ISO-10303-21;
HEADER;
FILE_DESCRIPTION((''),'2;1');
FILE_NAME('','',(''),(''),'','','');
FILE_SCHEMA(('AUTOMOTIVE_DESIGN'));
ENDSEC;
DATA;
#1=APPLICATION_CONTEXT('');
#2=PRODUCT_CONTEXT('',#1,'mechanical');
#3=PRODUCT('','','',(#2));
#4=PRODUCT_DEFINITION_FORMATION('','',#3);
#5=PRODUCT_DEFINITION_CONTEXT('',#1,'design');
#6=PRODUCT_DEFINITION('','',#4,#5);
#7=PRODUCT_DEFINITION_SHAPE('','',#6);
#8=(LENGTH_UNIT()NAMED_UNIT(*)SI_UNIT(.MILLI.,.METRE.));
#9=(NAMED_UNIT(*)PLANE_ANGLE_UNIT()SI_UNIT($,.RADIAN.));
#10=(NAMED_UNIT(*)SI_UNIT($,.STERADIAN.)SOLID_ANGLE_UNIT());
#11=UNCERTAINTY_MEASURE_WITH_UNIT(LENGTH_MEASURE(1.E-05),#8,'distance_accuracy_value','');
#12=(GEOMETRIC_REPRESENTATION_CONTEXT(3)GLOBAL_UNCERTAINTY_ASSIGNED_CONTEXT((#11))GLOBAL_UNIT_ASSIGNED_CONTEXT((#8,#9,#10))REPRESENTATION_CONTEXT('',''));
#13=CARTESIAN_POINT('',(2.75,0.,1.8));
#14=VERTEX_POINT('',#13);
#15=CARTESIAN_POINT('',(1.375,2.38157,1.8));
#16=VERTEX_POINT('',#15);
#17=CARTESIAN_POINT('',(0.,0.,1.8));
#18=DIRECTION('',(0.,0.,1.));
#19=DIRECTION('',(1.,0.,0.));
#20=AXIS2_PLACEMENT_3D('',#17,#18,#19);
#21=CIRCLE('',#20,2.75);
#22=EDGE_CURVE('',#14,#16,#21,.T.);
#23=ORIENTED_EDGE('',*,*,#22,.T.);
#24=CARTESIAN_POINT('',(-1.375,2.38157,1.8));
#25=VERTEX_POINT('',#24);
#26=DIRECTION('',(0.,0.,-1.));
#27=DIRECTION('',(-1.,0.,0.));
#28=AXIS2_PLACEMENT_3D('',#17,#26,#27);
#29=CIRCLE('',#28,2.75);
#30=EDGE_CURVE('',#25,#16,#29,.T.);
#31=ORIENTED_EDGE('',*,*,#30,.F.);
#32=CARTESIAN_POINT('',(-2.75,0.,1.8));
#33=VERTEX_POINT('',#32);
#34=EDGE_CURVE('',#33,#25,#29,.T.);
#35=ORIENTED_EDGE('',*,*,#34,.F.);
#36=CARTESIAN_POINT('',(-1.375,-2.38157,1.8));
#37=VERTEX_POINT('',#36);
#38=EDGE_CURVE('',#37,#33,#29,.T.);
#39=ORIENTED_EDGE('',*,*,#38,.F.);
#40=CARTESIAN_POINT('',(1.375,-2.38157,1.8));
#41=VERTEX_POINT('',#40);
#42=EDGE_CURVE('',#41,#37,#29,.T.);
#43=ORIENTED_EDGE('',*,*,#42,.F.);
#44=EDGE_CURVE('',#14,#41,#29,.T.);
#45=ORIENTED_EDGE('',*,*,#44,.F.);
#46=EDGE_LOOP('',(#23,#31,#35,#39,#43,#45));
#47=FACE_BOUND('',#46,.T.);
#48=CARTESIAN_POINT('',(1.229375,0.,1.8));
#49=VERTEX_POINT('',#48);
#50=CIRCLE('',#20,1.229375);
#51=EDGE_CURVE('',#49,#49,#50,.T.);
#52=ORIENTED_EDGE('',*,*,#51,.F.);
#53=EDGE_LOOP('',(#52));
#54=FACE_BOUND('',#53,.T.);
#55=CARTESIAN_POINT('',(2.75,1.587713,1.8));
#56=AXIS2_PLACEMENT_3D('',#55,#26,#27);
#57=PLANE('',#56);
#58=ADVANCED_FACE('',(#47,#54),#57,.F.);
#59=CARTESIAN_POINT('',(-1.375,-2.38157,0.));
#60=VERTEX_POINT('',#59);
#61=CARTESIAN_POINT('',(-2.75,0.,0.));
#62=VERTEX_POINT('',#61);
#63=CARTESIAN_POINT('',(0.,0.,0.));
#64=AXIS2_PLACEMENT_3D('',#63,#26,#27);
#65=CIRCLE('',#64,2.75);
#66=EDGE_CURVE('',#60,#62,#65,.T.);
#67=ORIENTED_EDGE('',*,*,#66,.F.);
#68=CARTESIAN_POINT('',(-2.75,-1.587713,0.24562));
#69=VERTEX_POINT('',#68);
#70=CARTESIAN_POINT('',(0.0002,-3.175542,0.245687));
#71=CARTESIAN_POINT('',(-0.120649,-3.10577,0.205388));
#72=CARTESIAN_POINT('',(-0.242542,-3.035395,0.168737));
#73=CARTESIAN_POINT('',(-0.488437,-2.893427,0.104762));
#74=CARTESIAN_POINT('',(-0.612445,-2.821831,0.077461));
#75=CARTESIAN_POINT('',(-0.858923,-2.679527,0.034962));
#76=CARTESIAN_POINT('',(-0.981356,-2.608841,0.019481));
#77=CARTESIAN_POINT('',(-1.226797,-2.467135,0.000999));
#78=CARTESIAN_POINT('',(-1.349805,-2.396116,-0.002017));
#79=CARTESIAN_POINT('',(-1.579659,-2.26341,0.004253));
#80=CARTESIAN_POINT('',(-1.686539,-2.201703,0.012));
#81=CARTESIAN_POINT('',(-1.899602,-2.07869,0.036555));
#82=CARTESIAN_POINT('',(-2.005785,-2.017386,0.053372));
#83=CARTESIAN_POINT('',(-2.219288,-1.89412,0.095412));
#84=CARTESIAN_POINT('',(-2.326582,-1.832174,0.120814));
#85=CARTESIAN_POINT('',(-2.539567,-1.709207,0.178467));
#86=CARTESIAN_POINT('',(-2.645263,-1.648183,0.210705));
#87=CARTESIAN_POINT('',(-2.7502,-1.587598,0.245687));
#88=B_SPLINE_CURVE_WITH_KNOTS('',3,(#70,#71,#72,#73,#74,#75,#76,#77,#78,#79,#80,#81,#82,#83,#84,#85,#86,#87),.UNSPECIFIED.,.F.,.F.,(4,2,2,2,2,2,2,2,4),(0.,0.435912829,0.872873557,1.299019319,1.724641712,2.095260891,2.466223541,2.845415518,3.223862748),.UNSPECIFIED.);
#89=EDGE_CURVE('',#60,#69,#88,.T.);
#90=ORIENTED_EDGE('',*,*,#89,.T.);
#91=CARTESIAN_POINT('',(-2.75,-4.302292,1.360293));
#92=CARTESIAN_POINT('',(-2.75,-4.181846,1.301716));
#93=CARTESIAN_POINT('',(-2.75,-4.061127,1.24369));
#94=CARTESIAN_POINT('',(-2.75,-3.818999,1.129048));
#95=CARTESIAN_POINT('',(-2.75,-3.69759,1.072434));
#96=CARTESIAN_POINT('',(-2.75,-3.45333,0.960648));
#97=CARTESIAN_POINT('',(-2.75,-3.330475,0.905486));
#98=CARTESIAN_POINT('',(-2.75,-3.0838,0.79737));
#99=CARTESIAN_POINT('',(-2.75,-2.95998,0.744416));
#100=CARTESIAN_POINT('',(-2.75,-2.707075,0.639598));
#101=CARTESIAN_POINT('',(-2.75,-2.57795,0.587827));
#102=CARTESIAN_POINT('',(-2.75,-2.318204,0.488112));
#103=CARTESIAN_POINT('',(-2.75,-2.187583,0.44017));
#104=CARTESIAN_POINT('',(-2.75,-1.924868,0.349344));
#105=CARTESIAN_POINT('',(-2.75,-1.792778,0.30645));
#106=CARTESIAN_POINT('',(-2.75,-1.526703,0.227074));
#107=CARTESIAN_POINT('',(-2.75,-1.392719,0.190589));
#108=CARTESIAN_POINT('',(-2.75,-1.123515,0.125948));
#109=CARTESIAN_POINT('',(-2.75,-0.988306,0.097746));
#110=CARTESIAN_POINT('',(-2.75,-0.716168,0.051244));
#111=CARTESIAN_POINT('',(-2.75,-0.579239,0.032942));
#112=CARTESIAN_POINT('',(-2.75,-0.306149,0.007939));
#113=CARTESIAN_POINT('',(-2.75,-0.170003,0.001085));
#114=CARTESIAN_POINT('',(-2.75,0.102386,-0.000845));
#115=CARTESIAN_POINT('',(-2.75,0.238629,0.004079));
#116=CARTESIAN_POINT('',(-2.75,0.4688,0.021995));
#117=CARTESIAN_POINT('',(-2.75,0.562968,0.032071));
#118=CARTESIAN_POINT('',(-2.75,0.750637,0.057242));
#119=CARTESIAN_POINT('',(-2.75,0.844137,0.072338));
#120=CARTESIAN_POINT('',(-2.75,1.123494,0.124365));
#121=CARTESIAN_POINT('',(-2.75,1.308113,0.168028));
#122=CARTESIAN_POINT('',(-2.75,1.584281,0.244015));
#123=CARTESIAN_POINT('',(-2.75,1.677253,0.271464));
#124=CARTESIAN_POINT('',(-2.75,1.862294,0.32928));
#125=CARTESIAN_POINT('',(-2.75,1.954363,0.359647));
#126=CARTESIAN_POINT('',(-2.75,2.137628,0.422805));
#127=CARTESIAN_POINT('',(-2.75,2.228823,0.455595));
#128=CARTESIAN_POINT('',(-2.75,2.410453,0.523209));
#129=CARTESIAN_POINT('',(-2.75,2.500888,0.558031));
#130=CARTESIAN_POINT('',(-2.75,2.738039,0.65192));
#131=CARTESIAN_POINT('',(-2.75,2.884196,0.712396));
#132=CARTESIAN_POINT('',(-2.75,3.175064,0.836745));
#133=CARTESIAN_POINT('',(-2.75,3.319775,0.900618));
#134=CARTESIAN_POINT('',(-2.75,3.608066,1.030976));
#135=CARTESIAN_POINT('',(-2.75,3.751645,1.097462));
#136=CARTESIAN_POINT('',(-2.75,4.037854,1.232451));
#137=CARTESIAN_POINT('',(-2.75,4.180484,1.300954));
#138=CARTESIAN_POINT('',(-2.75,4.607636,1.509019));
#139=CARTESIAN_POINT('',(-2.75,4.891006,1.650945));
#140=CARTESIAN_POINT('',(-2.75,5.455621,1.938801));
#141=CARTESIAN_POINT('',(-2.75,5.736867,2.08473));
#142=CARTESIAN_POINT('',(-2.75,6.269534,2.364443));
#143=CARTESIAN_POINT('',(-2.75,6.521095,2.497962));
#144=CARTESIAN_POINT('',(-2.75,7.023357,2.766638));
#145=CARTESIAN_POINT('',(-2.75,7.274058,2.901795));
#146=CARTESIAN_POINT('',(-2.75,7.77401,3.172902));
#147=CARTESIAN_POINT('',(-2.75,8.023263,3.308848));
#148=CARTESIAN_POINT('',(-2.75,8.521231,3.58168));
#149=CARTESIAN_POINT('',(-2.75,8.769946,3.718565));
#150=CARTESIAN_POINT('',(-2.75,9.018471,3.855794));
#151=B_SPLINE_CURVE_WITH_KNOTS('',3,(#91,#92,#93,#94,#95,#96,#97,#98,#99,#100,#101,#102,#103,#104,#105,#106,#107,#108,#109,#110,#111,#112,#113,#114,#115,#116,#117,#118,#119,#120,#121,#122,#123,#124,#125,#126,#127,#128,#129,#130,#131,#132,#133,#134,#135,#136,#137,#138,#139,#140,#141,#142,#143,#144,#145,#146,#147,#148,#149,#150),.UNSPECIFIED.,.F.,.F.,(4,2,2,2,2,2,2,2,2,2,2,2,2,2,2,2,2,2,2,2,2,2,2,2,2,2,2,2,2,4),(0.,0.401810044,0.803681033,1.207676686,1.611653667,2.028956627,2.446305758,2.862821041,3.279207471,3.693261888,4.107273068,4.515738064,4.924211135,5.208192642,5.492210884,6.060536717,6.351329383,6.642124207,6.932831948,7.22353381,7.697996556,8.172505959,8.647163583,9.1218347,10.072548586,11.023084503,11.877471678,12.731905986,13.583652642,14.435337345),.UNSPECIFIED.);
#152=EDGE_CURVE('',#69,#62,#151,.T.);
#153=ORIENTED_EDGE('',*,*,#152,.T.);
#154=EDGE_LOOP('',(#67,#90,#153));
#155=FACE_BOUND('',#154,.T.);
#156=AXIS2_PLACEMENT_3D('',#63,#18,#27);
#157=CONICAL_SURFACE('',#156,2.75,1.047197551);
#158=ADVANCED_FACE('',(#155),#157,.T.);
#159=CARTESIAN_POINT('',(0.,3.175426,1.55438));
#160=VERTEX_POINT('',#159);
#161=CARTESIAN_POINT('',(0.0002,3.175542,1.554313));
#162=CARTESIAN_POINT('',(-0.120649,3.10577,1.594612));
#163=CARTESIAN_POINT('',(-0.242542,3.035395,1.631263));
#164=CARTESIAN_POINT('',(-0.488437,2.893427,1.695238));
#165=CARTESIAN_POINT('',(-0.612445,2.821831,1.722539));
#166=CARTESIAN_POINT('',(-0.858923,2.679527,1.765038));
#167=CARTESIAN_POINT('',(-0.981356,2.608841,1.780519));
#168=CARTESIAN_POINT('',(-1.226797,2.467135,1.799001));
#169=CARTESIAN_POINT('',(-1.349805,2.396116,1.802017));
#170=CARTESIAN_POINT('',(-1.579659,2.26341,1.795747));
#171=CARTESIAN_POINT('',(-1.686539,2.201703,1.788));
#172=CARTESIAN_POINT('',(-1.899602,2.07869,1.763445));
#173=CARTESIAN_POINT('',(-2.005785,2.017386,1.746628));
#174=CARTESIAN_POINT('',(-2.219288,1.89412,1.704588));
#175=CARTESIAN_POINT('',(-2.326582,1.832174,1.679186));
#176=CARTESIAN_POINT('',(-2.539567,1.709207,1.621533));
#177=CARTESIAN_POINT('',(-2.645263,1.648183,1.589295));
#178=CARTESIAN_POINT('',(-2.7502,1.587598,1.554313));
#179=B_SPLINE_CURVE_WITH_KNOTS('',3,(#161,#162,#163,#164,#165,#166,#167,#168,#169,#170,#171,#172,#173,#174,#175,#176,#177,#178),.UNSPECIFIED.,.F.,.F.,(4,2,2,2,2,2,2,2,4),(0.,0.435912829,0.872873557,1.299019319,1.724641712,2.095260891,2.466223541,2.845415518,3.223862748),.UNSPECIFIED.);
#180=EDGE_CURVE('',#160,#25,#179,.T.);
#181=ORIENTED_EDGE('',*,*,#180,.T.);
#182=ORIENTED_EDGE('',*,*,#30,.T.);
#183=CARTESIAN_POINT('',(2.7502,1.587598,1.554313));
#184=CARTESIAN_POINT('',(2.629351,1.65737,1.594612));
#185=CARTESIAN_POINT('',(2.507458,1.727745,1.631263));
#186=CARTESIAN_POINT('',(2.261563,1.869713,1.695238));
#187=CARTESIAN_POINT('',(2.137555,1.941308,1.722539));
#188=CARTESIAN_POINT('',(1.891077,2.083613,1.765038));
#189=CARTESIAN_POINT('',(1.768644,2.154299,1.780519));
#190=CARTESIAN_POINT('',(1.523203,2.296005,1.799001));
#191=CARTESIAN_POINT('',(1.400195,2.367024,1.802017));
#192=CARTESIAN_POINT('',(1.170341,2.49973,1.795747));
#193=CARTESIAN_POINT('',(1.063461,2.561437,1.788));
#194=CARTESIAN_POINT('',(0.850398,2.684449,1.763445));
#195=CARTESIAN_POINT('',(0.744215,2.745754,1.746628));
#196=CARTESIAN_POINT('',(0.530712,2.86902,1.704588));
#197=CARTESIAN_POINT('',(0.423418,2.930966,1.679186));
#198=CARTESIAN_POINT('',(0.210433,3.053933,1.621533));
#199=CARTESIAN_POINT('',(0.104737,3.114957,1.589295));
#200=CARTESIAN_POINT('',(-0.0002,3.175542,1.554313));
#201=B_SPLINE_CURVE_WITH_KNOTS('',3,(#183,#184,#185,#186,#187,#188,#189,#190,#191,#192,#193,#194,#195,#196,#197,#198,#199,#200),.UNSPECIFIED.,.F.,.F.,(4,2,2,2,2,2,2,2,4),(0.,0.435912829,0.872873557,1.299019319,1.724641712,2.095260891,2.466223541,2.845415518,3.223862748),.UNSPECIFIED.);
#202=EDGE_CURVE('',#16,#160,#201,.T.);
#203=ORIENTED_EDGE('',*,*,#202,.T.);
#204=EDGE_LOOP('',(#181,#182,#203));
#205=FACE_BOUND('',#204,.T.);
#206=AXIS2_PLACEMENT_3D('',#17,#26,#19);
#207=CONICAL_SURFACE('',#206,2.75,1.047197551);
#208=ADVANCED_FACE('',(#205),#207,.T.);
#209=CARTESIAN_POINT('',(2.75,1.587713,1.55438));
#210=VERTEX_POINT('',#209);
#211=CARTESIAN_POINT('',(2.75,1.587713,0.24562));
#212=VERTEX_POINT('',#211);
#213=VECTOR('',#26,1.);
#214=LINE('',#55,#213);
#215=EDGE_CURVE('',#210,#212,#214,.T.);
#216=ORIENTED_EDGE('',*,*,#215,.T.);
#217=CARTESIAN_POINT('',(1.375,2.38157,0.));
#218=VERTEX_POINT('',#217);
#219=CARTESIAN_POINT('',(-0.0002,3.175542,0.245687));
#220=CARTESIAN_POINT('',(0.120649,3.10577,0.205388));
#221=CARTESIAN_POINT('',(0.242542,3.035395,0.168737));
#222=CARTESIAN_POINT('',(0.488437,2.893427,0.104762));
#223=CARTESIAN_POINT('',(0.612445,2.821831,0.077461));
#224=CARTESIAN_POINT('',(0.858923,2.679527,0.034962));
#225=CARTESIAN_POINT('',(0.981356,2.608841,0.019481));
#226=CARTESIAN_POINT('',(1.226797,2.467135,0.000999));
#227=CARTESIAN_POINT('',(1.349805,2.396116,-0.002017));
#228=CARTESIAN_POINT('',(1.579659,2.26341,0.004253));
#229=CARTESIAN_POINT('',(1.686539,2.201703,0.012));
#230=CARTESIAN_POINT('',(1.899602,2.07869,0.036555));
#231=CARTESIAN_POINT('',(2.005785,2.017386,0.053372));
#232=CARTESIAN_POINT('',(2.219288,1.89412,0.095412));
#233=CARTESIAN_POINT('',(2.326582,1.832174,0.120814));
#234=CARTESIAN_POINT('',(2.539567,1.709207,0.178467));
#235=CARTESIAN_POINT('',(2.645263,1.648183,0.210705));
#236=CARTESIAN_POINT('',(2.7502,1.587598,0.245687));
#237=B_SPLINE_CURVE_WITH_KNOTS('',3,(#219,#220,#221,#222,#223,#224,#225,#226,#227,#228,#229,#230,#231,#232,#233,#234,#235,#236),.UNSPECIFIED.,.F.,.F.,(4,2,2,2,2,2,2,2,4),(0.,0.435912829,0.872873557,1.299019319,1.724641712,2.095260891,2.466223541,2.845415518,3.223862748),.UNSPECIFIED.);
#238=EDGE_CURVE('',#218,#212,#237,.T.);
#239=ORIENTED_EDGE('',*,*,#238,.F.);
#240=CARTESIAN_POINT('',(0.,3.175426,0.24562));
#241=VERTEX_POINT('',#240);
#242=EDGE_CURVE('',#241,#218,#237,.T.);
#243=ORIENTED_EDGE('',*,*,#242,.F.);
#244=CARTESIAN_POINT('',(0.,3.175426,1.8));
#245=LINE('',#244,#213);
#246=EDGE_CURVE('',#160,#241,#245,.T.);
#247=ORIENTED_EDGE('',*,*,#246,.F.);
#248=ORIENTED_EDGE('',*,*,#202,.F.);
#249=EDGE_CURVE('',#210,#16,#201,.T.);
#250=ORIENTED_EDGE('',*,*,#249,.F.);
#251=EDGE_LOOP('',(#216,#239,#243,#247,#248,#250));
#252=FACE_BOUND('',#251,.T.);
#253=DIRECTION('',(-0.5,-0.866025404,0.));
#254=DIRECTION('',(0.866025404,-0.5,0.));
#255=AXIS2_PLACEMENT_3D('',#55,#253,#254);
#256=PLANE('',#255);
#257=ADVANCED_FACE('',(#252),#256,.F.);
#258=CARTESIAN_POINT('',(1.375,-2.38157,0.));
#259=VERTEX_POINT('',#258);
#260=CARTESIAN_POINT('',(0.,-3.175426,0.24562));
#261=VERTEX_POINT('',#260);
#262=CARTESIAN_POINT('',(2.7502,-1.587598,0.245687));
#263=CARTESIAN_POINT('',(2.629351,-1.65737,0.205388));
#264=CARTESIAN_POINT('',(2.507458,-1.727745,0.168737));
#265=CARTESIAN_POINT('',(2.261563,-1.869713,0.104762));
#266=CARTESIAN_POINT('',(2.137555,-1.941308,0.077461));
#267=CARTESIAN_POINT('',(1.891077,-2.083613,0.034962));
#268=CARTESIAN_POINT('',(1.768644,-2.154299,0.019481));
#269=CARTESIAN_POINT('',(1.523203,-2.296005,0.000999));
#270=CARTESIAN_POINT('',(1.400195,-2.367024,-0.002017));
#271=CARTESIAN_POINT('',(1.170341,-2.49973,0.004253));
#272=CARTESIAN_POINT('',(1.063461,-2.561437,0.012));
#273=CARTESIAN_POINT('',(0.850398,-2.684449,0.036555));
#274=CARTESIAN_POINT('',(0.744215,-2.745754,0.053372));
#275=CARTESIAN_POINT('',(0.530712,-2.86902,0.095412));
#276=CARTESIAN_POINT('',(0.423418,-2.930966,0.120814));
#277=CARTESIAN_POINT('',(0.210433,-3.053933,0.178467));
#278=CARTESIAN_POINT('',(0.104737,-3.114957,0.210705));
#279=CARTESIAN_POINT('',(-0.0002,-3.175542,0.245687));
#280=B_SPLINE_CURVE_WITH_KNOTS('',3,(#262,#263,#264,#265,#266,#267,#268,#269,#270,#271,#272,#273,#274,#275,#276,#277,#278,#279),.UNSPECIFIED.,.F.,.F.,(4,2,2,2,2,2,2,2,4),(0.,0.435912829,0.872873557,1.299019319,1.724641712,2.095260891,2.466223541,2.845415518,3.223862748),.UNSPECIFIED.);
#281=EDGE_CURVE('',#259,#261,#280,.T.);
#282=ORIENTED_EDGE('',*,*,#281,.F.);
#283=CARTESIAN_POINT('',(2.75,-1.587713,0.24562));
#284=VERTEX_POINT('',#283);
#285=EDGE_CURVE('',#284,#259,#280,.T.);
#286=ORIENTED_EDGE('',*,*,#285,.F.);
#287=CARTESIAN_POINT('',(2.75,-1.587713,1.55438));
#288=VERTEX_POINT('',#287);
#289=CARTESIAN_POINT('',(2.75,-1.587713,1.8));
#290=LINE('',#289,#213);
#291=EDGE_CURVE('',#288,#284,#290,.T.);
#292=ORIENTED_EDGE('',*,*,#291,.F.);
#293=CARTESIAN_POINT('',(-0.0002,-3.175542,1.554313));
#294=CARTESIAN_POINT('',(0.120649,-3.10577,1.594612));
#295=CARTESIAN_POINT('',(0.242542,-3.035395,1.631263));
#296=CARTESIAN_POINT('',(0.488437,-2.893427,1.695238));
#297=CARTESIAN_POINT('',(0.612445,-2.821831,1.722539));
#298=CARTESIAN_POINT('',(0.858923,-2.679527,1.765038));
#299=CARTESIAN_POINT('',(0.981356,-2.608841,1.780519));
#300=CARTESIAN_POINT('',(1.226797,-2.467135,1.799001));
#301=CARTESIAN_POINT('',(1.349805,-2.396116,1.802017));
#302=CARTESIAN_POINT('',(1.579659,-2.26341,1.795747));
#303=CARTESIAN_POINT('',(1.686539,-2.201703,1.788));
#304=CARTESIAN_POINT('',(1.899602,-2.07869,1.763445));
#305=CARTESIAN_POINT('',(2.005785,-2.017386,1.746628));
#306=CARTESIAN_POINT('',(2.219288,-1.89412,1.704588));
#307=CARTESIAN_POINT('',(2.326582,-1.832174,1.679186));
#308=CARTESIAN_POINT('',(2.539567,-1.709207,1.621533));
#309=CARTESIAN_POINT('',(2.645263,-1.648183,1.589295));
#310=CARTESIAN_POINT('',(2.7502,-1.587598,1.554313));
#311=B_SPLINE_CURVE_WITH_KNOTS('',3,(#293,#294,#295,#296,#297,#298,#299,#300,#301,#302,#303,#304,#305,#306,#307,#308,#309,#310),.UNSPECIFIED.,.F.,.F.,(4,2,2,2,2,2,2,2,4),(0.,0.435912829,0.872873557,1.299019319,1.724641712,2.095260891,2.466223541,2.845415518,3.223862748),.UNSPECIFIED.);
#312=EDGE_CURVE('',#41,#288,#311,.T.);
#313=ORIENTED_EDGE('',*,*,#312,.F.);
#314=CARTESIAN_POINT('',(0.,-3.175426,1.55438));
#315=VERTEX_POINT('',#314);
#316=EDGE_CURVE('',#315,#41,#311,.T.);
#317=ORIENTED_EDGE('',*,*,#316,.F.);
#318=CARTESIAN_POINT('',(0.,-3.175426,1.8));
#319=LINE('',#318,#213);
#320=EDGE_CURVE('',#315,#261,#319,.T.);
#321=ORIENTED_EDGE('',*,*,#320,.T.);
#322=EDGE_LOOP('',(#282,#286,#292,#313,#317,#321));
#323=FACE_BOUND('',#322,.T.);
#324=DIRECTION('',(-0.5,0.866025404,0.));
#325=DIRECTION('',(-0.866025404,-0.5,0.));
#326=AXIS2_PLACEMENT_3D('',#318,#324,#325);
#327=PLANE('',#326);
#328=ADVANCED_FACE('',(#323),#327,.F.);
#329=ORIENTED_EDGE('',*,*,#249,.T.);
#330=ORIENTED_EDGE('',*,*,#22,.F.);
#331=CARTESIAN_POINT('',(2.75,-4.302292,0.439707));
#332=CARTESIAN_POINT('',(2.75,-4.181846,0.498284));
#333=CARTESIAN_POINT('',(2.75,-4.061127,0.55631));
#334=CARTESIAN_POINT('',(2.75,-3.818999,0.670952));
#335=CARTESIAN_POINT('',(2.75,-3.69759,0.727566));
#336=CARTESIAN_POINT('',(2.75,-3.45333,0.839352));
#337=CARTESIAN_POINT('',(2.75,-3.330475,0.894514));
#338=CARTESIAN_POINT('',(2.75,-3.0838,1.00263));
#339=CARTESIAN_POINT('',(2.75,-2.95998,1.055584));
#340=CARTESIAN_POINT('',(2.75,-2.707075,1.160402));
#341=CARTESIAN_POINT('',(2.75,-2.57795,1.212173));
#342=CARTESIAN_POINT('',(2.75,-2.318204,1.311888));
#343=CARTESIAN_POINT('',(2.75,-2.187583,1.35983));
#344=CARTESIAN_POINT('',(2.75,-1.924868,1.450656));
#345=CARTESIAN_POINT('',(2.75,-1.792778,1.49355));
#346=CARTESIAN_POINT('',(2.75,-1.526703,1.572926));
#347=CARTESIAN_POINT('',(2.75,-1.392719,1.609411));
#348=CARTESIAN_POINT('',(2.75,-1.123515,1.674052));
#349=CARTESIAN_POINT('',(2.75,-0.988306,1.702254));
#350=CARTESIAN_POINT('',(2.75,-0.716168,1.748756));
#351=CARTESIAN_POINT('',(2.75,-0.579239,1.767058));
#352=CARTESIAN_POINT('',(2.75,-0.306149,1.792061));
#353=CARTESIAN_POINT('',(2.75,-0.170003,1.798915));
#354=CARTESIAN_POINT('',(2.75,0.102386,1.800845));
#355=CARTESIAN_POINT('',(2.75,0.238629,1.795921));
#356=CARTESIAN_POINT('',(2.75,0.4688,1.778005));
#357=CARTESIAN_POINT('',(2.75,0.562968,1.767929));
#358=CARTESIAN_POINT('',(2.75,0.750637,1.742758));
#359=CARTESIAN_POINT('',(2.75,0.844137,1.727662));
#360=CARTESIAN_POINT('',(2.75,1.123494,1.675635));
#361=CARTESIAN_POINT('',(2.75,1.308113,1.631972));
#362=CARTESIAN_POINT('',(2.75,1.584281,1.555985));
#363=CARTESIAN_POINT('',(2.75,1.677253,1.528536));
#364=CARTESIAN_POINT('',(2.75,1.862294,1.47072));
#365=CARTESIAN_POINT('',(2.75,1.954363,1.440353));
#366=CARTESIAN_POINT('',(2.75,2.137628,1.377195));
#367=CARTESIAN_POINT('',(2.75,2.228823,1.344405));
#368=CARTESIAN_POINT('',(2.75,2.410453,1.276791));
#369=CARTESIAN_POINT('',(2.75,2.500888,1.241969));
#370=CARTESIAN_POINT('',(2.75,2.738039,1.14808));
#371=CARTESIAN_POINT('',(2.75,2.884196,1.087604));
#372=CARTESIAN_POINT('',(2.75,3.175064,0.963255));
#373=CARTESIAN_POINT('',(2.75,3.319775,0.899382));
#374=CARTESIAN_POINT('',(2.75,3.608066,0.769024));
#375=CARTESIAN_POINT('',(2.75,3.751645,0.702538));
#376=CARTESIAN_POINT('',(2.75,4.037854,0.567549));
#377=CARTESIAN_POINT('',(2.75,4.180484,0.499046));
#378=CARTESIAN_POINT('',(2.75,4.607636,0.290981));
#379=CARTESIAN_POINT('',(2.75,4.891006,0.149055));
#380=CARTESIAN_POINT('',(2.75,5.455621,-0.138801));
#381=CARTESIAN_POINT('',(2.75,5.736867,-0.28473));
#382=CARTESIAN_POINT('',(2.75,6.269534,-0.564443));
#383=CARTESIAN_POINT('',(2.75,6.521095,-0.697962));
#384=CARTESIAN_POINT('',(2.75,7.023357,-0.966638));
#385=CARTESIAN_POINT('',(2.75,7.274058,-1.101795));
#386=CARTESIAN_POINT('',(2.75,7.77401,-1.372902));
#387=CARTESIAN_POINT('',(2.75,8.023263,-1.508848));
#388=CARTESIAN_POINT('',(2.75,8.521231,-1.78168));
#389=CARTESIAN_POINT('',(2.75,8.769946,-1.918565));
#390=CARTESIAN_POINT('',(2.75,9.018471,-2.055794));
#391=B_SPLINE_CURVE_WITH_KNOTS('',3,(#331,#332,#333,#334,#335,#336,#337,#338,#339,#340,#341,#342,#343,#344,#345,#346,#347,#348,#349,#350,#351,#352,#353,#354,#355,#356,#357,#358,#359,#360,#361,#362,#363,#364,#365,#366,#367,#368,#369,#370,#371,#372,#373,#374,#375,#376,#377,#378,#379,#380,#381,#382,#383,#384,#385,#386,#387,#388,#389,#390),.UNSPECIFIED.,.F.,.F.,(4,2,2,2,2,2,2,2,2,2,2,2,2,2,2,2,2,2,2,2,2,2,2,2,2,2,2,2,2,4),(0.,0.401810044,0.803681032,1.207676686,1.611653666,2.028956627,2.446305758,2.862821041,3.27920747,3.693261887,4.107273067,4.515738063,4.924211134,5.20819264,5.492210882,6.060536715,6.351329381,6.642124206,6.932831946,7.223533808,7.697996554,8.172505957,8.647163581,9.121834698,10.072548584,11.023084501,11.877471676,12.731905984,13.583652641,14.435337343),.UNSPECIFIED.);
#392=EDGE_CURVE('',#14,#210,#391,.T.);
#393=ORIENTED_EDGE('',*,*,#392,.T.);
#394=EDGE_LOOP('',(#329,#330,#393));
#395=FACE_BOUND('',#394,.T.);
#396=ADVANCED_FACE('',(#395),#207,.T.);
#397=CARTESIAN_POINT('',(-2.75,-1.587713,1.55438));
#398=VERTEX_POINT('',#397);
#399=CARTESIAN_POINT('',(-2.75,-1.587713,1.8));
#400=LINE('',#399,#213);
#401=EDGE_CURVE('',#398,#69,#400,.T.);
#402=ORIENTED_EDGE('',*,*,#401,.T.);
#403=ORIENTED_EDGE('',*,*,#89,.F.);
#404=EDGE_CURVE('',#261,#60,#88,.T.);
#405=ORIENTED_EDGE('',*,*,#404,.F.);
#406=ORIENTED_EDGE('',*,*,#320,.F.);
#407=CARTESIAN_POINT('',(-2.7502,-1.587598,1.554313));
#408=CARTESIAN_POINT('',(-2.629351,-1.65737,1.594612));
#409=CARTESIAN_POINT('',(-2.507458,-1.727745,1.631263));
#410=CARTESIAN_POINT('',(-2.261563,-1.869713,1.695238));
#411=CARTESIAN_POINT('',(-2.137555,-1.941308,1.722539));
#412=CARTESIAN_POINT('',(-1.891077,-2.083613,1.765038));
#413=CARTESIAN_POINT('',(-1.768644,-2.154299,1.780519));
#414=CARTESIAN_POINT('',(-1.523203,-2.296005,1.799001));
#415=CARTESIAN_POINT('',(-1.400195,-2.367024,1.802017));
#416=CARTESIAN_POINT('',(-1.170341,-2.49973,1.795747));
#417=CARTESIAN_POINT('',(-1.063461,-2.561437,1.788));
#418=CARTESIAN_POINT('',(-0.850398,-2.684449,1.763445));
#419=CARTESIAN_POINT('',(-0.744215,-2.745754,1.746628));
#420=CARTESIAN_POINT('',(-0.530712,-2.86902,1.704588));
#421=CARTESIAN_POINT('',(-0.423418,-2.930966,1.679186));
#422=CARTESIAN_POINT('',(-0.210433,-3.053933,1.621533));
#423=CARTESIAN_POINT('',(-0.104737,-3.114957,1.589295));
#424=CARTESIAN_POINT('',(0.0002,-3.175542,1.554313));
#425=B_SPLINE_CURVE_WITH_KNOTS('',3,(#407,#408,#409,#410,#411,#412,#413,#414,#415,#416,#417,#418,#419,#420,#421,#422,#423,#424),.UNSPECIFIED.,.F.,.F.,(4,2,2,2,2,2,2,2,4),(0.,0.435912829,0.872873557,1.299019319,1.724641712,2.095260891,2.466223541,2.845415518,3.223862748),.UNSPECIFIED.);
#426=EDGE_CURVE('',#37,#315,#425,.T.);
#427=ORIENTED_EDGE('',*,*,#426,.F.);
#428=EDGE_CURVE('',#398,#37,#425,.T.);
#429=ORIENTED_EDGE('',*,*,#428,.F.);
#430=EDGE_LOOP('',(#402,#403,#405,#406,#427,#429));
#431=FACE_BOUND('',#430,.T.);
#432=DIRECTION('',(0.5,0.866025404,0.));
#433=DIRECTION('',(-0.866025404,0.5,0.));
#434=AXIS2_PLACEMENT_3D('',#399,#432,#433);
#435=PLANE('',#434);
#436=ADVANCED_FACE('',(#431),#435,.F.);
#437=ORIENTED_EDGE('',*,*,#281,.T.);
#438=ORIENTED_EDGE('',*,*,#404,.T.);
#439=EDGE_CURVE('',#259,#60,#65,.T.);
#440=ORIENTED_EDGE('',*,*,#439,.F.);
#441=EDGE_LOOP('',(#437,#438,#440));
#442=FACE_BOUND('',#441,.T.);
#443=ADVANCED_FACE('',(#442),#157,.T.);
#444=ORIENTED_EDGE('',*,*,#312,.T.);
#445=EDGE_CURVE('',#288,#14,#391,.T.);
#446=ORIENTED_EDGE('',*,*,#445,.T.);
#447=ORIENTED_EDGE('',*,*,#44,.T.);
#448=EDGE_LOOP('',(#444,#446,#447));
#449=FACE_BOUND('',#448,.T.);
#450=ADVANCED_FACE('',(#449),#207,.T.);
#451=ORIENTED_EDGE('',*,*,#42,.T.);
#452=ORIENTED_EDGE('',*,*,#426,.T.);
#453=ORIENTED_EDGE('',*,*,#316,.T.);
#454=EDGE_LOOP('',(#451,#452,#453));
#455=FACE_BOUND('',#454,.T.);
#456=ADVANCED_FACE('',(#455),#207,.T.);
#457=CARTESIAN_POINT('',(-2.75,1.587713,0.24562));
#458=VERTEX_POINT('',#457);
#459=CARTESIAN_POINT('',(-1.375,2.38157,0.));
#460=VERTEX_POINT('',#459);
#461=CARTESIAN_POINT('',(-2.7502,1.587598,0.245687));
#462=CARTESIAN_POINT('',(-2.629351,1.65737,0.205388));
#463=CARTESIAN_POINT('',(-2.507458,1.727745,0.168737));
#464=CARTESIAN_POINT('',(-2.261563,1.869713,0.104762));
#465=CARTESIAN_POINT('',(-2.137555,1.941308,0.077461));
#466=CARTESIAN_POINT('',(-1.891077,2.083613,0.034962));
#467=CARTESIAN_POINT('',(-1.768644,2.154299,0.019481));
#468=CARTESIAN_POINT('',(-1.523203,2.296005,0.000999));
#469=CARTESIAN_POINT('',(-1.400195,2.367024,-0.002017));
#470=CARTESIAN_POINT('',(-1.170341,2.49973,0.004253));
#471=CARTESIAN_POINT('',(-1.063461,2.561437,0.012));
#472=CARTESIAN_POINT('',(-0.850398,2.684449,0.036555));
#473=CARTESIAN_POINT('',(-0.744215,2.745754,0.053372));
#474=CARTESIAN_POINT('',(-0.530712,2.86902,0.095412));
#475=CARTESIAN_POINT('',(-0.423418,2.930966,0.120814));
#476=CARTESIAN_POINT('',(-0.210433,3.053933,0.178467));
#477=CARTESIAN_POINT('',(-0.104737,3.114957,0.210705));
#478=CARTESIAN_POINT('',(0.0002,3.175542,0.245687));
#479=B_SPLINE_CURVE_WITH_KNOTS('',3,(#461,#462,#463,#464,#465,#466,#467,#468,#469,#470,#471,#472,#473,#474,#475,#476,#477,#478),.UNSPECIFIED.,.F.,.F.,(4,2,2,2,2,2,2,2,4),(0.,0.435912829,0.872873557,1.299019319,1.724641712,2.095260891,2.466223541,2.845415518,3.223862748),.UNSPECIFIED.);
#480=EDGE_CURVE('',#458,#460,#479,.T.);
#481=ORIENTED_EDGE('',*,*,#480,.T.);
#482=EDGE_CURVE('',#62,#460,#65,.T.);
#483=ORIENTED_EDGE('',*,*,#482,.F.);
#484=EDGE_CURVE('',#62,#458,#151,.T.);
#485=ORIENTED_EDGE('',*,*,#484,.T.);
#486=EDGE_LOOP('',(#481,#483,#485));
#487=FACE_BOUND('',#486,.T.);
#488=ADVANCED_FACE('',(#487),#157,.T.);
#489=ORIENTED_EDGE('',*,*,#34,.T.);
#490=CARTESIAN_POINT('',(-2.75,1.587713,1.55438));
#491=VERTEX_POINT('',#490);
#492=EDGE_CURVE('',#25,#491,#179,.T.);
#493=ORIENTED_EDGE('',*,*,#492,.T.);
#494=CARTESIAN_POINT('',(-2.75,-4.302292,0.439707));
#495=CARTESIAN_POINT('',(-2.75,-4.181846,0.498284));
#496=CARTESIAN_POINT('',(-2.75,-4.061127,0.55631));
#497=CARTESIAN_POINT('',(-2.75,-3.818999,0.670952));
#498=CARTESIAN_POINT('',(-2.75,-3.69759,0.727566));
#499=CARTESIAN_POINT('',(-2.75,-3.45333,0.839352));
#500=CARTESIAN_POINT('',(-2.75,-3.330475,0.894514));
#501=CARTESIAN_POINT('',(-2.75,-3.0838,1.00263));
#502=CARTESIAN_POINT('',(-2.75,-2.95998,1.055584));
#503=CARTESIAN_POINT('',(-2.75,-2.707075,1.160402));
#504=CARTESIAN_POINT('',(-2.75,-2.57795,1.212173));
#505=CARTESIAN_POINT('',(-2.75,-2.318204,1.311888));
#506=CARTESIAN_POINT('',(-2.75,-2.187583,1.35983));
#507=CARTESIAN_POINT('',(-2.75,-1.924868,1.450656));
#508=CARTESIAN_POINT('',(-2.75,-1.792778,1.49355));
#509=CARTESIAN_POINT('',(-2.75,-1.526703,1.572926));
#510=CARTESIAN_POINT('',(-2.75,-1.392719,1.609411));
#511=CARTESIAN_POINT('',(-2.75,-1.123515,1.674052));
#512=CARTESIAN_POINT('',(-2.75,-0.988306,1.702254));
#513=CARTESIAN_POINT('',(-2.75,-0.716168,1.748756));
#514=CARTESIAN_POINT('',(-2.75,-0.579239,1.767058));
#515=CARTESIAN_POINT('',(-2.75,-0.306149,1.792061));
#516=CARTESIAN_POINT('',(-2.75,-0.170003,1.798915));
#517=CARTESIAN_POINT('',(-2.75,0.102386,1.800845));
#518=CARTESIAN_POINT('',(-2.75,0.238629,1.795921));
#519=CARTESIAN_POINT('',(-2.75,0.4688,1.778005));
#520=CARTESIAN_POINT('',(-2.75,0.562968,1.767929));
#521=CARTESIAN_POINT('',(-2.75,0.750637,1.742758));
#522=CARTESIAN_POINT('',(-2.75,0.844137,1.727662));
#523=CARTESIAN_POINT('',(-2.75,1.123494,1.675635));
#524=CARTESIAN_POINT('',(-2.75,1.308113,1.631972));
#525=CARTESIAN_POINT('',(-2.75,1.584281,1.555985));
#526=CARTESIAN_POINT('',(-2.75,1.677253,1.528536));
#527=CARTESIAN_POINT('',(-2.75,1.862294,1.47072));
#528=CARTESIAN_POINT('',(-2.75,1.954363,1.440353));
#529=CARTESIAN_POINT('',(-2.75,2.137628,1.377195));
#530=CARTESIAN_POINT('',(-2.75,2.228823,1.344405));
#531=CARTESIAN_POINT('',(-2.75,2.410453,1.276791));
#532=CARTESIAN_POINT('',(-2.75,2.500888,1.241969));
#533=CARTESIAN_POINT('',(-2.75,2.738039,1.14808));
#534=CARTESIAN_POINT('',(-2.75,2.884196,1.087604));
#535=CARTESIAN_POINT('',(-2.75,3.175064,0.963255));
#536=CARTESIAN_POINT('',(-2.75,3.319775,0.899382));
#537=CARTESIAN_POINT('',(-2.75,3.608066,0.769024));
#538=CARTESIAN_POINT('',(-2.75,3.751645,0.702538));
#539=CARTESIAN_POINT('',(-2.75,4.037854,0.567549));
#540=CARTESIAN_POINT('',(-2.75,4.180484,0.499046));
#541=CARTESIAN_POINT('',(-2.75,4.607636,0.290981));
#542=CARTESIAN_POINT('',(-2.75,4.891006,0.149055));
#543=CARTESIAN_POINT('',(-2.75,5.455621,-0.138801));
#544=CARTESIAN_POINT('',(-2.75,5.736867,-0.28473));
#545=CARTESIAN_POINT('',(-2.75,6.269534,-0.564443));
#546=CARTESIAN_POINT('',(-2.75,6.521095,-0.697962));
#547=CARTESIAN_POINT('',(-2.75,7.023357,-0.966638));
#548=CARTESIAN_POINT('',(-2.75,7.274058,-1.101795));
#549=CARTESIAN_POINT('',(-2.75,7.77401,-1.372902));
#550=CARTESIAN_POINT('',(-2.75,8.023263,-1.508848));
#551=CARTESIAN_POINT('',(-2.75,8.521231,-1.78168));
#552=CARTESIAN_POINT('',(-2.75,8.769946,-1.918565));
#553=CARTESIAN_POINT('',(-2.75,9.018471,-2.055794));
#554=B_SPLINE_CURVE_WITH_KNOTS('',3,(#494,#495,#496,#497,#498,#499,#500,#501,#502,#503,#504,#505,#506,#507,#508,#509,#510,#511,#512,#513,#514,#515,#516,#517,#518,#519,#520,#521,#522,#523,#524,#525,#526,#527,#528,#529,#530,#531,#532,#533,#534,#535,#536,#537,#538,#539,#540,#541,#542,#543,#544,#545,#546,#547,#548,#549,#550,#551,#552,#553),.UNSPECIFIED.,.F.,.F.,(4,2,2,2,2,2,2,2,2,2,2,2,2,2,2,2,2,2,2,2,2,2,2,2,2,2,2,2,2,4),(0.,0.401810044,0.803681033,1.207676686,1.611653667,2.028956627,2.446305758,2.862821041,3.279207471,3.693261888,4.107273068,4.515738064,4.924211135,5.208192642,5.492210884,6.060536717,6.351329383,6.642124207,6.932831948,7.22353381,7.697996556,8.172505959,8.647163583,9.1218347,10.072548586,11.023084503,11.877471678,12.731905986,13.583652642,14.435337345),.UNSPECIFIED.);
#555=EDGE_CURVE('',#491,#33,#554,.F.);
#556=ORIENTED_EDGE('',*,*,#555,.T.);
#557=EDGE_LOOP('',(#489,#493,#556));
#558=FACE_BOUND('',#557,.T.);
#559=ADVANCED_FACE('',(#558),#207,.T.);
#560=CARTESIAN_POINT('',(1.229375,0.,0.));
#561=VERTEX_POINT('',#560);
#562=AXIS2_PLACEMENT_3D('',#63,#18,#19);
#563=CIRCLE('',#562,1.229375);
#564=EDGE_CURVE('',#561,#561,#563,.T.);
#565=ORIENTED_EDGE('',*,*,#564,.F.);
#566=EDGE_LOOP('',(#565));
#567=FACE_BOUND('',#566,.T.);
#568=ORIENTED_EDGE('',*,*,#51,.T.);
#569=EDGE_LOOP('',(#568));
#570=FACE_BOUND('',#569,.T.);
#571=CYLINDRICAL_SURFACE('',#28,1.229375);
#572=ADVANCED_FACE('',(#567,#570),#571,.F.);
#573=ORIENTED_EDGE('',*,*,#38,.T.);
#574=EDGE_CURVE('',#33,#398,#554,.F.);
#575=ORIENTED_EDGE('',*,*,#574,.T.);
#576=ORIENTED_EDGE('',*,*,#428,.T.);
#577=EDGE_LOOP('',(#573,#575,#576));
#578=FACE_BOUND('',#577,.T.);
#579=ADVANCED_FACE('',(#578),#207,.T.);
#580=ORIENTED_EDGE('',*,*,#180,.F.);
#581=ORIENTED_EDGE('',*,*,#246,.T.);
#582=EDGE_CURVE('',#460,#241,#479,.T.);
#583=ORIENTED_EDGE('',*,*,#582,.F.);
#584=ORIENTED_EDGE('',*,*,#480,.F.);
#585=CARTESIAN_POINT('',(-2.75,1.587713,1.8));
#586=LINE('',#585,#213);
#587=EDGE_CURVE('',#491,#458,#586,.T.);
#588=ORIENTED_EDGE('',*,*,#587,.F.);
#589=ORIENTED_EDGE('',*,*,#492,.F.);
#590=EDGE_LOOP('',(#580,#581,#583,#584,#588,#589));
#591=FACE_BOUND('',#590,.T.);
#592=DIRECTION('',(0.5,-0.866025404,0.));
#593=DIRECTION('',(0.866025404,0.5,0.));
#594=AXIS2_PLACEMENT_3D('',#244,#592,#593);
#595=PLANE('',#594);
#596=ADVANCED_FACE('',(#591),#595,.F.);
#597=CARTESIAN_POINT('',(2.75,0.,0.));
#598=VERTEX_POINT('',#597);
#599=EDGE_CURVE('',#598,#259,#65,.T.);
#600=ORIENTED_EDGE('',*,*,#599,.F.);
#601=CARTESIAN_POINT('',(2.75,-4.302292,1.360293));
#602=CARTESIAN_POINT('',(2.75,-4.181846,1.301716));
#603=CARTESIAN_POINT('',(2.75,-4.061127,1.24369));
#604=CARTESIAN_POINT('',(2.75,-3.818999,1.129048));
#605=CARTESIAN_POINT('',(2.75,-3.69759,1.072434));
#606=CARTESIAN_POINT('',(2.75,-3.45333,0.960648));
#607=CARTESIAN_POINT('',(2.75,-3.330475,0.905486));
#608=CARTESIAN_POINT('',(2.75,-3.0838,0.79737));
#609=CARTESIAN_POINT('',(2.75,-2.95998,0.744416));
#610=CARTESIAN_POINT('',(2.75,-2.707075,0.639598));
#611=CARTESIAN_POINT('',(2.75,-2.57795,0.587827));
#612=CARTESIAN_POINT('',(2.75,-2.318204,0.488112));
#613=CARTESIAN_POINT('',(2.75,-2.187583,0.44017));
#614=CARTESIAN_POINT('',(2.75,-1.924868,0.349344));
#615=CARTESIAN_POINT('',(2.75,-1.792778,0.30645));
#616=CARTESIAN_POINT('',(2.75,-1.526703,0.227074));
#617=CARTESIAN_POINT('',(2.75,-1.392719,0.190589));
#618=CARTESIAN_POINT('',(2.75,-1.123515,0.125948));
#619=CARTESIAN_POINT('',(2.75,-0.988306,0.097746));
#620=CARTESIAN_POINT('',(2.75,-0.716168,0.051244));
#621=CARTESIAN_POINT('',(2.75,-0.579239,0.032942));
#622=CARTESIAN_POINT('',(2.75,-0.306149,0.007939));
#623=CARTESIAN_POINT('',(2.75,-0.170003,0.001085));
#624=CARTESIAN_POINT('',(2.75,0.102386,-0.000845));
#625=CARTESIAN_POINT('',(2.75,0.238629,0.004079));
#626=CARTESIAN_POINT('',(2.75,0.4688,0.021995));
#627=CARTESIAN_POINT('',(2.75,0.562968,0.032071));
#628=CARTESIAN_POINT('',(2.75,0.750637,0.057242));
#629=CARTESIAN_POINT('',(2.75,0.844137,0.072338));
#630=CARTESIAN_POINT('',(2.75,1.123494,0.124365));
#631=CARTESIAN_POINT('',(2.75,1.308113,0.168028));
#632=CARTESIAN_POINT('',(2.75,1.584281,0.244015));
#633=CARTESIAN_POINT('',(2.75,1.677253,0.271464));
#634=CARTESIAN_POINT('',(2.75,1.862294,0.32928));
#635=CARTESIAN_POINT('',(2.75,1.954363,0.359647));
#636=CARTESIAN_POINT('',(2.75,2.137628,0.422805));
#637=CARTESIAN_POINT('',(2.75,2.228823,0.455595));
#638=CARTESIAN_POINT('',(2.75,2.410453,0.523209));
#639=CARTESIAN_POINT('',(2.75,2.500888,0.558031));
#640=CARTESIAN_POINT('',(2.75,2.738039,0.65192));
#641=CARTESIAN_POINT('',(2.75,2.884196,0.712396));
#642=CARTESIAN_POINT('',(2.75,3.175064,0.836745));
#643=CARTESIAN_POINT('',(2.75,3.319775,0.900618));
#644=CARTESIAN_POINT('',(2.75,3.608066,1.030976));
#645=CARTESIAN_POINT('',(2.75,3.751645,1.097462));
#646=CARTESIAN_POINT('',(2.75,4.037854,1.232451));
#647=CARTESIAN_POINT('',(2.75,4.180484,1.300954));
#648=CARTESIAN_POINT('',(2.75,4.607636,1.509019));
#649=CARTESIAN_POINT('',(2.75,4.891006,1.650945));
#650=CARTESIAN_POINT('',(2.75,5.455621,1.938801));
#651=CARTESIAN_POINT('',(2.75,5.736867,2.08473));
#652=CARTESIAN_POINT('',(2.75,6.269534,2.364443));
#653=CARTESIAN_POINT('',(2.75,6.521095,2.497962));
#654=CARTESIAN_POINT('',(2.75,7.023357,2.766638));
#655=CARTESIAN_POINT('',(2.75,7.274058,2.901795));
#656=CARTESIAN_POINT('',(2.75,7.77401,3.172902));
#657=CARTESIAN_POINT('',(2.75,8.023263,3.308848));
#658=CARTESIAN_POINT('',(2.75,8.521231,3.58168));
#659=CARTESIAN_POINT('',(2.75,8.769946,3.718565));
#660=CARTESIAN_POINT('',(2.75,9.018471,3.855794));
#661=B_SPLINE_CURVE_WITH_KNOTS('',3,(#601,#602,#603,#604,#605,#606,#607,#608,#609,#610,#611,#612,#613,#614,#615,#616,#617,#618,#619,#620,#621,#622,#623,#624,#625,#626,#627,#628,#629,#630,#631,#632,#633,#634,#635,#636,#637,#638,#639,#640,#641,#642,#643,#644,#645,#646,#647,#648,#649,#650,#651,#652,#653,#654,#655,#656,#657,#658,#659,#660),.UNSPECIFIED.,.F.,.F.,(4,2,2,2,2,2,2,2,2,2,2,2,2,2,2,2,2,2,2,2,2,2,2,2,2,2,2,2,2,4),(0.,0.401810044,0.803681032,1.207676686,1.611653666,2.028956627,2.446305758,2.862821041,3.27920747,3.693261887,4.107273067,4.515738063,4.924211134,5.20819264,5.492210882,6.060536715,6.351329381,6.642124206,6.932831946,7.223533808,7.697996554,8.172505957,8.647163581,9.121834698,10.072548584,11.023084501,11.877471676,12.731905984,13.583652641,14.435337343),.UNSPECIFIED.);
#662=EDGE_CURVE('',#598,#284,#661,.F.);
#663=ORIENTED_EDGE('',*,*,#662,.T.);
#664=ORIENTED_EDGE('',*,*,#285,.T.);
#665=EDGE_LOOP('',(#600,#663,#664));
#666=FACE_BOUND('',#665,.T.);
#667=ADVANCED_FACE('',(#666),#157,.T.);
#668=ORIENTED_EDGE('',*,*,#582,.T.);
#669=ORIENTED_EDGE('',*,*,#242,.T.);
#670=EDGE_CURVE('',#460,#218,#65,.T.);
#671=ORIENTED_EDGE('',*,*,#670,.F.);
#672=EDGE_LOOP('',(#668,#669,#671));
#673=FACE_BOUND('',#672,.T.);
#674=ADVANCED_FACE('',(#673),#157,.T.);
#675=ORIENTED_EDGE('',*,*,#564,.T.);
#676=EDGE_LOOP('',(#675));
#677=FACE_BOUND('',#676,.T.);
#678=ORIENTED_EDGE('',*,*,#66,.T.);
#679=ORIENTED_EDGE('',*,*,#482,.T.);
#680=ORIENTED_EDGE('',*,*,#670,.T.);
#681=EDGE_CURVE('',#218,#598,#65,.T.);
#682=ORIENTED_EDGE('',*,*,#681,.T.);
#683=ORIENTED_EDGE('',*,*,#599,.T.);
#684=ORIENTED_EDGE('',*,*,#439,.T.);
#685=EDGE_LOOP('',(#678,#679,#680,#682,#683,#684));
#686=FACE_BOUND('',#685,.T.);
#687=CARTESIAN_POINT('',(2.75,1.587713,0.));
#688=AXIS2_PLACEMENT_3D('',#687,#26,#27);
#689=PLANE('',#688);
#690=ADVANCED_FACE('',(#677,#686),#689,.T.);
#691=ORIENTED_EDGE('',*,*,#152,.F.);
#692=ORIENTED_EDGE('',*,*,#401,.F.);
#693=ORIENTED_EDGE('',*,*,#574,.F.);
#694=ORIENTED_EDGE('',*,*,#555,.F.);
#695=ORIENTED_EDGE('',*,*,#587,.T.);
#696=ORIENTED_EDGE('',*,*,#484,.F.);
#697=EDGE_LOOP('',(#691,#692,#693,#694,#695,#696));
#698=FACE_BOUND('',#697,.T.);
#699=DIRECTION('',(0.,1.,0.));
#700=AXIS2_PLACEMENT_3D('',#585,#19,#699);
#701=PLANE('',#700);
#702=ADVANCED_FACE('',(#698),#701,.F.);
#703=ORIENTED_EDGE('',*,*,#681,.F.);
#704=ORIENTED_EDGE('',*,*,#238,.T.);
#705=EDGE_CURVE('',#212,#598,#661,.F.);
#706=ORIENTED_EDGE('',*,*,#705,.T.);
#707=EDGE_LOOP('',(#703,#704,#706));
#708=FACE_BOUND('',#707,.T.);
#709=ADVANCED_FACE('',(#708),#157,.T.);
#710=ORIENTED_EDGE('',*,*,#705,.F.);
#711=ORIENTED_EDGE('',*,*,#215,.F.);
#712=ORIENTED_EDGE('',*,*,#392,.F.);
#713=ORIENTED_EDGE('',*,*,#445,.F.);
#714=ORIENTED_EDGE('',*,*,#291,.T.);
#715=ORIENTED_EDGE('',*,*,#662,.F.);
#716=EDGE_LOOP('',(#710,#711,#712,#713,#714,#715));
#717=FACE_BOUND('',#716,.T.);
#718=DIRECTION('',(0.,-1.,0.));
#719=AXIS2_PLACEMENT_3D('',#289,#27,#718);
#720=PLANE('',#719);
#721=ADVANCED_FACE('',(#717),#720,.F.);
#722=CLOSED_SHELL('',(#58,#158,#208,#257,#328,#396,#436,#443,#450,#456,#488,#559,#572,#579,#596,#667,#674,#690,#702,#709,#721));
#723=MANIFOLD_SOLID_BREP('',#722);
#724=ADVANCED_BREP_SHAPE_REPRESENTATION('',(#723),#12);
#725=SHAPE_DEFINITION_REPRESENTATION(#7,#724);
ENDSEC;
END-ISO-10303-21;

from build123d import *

# Parameters (mm, degrees)
SKETCH_1_R          = 1.229375
EXTRUDE_584_DEPTH   = 1.8
SKETCH_2_OUTSIDE_W  = 28.514
SKETCH_2_OUTSIDE_H  = 29.364
SKETCH_2_OUTSIDE_R  = 2.75
CUT_EXTRUDE_1_DEPTH = 5.570102114
CUT_EXTRUDE_1_DRAFT = -60
SKETCH_3_OUTSIDE_W  = 28.514
SKETCH_3_OUTSIDE_H  = 29.364
SKETCH_3_OUTSIDE_R  = 2.75
CUT_EXTRUDE_2_DEPTH = 5.570102114
CUT_EXTRUDE_2_DRAFT = -60


with BuildPart() as part:
    # 草图1 → Extrude 584 (new body)
    with BuildSketch(Plane.XY):
        Polygon((0, 3.175426481), (-2.75, 1.58771324), (-2.75, -1.58771324), (0, -3.175426481), (2.75, -1.58771324), (2.75, 1.58771324), align=None)
        Circle(SKETCH_1_R, mode=Mode.SUBTRACT)
    extrude(amount=EXTRUDE_584_DEPTH)


with BuildPart() as cut_extrude_1_tool:
    # 草图2 outside → 切除-拉伸1 (with draft: the straight prism first)
    with BuildSketch(Plane(origin=(0, 0, 0), x_dir=(-1, 0, 0), z_dir=(0, 0, -1))):
        Rectangle(SKETCH_2_OUTSIDE_W, SKETCH_2_OUTSIDE_H)
        Circle(SKETCH_2_OUTSIDE_R, mode=Mode.SUBTRACT)
    extrude(amount=-CUT_EXTRUDE_1_DEPTH)
    # 切除-拉伸1: the draft: its side faces are tilted about the plane it starts from
    cut_extrude_1_sides = [cut_extrude_1_tool.faces().sort_by_distance(p)[0] for p in [
        (0, -14.682, 2.785051057),
        (-14.257, 0, 2.785051057),
        (0, 14.682, 2.785051057),
        (14.257, 0, 2.785051057),
        (2.75, 0, 2.785051057),
    ]]
    draft(cut_extrude_1_sides, Plane(origin=(0, 0, 0), x_dir=(-1, 0, 0), z_dir=(0, 0, -1)), CUT_EXTRUDE_1_DRAFT)


with BuildPart() as part_1:
    add(part.part)

    # 切除-拉伸1: cut by cut_extrude_1_tool
    add(cut_extrude_1_tool.part, mode=Mode.SUBTRACT)


with BuildPart() as cut_extrude_2_tool:
    # 草图3 outside → 切除-拉伸2 (with draft: the straight prism first)
    with BuildSketch(Plane.XY.offset(1.8)):
        Rectangle(SKETCH_3_OUTSIDE_W, SKETCH_3_OUTSIDE_H)
        Circle(SKETCH_3_OUTSIDE_R, mode=Mode.SUBTRACT)
    extrude(amount=-CUT_EXTRUDE_2_DEPTH)
    # 切除-拉伸2: the draft: its side faces are tilted about the plane it starts from
    cut_extrude_2_sides = [cut_extrude_2_tool.faces().sort_by_distance(p)[0] for p in [
        (0, -14.682, -0.985051057),
        (14.257, 0, -0.985051057),
        (0, 14.682, -0.985051057),
        (-14.257, 0, -0.985051057),
        (-2.75, 0, -0.985051057),
    ]]
    draft(cut_extrude_2_sides, Plane.XY.offset(1.8), CUT_EXTRUDE_2_DRAFT)


with BuildPart() as part_2:
    add(part_1.part)

    # 切除-拉伸2: cut by cut_extrude_2_tool
    add(cut_extrude_2_tool.part, mode=Mode.SUBTRACT)


solid = part_2.part
